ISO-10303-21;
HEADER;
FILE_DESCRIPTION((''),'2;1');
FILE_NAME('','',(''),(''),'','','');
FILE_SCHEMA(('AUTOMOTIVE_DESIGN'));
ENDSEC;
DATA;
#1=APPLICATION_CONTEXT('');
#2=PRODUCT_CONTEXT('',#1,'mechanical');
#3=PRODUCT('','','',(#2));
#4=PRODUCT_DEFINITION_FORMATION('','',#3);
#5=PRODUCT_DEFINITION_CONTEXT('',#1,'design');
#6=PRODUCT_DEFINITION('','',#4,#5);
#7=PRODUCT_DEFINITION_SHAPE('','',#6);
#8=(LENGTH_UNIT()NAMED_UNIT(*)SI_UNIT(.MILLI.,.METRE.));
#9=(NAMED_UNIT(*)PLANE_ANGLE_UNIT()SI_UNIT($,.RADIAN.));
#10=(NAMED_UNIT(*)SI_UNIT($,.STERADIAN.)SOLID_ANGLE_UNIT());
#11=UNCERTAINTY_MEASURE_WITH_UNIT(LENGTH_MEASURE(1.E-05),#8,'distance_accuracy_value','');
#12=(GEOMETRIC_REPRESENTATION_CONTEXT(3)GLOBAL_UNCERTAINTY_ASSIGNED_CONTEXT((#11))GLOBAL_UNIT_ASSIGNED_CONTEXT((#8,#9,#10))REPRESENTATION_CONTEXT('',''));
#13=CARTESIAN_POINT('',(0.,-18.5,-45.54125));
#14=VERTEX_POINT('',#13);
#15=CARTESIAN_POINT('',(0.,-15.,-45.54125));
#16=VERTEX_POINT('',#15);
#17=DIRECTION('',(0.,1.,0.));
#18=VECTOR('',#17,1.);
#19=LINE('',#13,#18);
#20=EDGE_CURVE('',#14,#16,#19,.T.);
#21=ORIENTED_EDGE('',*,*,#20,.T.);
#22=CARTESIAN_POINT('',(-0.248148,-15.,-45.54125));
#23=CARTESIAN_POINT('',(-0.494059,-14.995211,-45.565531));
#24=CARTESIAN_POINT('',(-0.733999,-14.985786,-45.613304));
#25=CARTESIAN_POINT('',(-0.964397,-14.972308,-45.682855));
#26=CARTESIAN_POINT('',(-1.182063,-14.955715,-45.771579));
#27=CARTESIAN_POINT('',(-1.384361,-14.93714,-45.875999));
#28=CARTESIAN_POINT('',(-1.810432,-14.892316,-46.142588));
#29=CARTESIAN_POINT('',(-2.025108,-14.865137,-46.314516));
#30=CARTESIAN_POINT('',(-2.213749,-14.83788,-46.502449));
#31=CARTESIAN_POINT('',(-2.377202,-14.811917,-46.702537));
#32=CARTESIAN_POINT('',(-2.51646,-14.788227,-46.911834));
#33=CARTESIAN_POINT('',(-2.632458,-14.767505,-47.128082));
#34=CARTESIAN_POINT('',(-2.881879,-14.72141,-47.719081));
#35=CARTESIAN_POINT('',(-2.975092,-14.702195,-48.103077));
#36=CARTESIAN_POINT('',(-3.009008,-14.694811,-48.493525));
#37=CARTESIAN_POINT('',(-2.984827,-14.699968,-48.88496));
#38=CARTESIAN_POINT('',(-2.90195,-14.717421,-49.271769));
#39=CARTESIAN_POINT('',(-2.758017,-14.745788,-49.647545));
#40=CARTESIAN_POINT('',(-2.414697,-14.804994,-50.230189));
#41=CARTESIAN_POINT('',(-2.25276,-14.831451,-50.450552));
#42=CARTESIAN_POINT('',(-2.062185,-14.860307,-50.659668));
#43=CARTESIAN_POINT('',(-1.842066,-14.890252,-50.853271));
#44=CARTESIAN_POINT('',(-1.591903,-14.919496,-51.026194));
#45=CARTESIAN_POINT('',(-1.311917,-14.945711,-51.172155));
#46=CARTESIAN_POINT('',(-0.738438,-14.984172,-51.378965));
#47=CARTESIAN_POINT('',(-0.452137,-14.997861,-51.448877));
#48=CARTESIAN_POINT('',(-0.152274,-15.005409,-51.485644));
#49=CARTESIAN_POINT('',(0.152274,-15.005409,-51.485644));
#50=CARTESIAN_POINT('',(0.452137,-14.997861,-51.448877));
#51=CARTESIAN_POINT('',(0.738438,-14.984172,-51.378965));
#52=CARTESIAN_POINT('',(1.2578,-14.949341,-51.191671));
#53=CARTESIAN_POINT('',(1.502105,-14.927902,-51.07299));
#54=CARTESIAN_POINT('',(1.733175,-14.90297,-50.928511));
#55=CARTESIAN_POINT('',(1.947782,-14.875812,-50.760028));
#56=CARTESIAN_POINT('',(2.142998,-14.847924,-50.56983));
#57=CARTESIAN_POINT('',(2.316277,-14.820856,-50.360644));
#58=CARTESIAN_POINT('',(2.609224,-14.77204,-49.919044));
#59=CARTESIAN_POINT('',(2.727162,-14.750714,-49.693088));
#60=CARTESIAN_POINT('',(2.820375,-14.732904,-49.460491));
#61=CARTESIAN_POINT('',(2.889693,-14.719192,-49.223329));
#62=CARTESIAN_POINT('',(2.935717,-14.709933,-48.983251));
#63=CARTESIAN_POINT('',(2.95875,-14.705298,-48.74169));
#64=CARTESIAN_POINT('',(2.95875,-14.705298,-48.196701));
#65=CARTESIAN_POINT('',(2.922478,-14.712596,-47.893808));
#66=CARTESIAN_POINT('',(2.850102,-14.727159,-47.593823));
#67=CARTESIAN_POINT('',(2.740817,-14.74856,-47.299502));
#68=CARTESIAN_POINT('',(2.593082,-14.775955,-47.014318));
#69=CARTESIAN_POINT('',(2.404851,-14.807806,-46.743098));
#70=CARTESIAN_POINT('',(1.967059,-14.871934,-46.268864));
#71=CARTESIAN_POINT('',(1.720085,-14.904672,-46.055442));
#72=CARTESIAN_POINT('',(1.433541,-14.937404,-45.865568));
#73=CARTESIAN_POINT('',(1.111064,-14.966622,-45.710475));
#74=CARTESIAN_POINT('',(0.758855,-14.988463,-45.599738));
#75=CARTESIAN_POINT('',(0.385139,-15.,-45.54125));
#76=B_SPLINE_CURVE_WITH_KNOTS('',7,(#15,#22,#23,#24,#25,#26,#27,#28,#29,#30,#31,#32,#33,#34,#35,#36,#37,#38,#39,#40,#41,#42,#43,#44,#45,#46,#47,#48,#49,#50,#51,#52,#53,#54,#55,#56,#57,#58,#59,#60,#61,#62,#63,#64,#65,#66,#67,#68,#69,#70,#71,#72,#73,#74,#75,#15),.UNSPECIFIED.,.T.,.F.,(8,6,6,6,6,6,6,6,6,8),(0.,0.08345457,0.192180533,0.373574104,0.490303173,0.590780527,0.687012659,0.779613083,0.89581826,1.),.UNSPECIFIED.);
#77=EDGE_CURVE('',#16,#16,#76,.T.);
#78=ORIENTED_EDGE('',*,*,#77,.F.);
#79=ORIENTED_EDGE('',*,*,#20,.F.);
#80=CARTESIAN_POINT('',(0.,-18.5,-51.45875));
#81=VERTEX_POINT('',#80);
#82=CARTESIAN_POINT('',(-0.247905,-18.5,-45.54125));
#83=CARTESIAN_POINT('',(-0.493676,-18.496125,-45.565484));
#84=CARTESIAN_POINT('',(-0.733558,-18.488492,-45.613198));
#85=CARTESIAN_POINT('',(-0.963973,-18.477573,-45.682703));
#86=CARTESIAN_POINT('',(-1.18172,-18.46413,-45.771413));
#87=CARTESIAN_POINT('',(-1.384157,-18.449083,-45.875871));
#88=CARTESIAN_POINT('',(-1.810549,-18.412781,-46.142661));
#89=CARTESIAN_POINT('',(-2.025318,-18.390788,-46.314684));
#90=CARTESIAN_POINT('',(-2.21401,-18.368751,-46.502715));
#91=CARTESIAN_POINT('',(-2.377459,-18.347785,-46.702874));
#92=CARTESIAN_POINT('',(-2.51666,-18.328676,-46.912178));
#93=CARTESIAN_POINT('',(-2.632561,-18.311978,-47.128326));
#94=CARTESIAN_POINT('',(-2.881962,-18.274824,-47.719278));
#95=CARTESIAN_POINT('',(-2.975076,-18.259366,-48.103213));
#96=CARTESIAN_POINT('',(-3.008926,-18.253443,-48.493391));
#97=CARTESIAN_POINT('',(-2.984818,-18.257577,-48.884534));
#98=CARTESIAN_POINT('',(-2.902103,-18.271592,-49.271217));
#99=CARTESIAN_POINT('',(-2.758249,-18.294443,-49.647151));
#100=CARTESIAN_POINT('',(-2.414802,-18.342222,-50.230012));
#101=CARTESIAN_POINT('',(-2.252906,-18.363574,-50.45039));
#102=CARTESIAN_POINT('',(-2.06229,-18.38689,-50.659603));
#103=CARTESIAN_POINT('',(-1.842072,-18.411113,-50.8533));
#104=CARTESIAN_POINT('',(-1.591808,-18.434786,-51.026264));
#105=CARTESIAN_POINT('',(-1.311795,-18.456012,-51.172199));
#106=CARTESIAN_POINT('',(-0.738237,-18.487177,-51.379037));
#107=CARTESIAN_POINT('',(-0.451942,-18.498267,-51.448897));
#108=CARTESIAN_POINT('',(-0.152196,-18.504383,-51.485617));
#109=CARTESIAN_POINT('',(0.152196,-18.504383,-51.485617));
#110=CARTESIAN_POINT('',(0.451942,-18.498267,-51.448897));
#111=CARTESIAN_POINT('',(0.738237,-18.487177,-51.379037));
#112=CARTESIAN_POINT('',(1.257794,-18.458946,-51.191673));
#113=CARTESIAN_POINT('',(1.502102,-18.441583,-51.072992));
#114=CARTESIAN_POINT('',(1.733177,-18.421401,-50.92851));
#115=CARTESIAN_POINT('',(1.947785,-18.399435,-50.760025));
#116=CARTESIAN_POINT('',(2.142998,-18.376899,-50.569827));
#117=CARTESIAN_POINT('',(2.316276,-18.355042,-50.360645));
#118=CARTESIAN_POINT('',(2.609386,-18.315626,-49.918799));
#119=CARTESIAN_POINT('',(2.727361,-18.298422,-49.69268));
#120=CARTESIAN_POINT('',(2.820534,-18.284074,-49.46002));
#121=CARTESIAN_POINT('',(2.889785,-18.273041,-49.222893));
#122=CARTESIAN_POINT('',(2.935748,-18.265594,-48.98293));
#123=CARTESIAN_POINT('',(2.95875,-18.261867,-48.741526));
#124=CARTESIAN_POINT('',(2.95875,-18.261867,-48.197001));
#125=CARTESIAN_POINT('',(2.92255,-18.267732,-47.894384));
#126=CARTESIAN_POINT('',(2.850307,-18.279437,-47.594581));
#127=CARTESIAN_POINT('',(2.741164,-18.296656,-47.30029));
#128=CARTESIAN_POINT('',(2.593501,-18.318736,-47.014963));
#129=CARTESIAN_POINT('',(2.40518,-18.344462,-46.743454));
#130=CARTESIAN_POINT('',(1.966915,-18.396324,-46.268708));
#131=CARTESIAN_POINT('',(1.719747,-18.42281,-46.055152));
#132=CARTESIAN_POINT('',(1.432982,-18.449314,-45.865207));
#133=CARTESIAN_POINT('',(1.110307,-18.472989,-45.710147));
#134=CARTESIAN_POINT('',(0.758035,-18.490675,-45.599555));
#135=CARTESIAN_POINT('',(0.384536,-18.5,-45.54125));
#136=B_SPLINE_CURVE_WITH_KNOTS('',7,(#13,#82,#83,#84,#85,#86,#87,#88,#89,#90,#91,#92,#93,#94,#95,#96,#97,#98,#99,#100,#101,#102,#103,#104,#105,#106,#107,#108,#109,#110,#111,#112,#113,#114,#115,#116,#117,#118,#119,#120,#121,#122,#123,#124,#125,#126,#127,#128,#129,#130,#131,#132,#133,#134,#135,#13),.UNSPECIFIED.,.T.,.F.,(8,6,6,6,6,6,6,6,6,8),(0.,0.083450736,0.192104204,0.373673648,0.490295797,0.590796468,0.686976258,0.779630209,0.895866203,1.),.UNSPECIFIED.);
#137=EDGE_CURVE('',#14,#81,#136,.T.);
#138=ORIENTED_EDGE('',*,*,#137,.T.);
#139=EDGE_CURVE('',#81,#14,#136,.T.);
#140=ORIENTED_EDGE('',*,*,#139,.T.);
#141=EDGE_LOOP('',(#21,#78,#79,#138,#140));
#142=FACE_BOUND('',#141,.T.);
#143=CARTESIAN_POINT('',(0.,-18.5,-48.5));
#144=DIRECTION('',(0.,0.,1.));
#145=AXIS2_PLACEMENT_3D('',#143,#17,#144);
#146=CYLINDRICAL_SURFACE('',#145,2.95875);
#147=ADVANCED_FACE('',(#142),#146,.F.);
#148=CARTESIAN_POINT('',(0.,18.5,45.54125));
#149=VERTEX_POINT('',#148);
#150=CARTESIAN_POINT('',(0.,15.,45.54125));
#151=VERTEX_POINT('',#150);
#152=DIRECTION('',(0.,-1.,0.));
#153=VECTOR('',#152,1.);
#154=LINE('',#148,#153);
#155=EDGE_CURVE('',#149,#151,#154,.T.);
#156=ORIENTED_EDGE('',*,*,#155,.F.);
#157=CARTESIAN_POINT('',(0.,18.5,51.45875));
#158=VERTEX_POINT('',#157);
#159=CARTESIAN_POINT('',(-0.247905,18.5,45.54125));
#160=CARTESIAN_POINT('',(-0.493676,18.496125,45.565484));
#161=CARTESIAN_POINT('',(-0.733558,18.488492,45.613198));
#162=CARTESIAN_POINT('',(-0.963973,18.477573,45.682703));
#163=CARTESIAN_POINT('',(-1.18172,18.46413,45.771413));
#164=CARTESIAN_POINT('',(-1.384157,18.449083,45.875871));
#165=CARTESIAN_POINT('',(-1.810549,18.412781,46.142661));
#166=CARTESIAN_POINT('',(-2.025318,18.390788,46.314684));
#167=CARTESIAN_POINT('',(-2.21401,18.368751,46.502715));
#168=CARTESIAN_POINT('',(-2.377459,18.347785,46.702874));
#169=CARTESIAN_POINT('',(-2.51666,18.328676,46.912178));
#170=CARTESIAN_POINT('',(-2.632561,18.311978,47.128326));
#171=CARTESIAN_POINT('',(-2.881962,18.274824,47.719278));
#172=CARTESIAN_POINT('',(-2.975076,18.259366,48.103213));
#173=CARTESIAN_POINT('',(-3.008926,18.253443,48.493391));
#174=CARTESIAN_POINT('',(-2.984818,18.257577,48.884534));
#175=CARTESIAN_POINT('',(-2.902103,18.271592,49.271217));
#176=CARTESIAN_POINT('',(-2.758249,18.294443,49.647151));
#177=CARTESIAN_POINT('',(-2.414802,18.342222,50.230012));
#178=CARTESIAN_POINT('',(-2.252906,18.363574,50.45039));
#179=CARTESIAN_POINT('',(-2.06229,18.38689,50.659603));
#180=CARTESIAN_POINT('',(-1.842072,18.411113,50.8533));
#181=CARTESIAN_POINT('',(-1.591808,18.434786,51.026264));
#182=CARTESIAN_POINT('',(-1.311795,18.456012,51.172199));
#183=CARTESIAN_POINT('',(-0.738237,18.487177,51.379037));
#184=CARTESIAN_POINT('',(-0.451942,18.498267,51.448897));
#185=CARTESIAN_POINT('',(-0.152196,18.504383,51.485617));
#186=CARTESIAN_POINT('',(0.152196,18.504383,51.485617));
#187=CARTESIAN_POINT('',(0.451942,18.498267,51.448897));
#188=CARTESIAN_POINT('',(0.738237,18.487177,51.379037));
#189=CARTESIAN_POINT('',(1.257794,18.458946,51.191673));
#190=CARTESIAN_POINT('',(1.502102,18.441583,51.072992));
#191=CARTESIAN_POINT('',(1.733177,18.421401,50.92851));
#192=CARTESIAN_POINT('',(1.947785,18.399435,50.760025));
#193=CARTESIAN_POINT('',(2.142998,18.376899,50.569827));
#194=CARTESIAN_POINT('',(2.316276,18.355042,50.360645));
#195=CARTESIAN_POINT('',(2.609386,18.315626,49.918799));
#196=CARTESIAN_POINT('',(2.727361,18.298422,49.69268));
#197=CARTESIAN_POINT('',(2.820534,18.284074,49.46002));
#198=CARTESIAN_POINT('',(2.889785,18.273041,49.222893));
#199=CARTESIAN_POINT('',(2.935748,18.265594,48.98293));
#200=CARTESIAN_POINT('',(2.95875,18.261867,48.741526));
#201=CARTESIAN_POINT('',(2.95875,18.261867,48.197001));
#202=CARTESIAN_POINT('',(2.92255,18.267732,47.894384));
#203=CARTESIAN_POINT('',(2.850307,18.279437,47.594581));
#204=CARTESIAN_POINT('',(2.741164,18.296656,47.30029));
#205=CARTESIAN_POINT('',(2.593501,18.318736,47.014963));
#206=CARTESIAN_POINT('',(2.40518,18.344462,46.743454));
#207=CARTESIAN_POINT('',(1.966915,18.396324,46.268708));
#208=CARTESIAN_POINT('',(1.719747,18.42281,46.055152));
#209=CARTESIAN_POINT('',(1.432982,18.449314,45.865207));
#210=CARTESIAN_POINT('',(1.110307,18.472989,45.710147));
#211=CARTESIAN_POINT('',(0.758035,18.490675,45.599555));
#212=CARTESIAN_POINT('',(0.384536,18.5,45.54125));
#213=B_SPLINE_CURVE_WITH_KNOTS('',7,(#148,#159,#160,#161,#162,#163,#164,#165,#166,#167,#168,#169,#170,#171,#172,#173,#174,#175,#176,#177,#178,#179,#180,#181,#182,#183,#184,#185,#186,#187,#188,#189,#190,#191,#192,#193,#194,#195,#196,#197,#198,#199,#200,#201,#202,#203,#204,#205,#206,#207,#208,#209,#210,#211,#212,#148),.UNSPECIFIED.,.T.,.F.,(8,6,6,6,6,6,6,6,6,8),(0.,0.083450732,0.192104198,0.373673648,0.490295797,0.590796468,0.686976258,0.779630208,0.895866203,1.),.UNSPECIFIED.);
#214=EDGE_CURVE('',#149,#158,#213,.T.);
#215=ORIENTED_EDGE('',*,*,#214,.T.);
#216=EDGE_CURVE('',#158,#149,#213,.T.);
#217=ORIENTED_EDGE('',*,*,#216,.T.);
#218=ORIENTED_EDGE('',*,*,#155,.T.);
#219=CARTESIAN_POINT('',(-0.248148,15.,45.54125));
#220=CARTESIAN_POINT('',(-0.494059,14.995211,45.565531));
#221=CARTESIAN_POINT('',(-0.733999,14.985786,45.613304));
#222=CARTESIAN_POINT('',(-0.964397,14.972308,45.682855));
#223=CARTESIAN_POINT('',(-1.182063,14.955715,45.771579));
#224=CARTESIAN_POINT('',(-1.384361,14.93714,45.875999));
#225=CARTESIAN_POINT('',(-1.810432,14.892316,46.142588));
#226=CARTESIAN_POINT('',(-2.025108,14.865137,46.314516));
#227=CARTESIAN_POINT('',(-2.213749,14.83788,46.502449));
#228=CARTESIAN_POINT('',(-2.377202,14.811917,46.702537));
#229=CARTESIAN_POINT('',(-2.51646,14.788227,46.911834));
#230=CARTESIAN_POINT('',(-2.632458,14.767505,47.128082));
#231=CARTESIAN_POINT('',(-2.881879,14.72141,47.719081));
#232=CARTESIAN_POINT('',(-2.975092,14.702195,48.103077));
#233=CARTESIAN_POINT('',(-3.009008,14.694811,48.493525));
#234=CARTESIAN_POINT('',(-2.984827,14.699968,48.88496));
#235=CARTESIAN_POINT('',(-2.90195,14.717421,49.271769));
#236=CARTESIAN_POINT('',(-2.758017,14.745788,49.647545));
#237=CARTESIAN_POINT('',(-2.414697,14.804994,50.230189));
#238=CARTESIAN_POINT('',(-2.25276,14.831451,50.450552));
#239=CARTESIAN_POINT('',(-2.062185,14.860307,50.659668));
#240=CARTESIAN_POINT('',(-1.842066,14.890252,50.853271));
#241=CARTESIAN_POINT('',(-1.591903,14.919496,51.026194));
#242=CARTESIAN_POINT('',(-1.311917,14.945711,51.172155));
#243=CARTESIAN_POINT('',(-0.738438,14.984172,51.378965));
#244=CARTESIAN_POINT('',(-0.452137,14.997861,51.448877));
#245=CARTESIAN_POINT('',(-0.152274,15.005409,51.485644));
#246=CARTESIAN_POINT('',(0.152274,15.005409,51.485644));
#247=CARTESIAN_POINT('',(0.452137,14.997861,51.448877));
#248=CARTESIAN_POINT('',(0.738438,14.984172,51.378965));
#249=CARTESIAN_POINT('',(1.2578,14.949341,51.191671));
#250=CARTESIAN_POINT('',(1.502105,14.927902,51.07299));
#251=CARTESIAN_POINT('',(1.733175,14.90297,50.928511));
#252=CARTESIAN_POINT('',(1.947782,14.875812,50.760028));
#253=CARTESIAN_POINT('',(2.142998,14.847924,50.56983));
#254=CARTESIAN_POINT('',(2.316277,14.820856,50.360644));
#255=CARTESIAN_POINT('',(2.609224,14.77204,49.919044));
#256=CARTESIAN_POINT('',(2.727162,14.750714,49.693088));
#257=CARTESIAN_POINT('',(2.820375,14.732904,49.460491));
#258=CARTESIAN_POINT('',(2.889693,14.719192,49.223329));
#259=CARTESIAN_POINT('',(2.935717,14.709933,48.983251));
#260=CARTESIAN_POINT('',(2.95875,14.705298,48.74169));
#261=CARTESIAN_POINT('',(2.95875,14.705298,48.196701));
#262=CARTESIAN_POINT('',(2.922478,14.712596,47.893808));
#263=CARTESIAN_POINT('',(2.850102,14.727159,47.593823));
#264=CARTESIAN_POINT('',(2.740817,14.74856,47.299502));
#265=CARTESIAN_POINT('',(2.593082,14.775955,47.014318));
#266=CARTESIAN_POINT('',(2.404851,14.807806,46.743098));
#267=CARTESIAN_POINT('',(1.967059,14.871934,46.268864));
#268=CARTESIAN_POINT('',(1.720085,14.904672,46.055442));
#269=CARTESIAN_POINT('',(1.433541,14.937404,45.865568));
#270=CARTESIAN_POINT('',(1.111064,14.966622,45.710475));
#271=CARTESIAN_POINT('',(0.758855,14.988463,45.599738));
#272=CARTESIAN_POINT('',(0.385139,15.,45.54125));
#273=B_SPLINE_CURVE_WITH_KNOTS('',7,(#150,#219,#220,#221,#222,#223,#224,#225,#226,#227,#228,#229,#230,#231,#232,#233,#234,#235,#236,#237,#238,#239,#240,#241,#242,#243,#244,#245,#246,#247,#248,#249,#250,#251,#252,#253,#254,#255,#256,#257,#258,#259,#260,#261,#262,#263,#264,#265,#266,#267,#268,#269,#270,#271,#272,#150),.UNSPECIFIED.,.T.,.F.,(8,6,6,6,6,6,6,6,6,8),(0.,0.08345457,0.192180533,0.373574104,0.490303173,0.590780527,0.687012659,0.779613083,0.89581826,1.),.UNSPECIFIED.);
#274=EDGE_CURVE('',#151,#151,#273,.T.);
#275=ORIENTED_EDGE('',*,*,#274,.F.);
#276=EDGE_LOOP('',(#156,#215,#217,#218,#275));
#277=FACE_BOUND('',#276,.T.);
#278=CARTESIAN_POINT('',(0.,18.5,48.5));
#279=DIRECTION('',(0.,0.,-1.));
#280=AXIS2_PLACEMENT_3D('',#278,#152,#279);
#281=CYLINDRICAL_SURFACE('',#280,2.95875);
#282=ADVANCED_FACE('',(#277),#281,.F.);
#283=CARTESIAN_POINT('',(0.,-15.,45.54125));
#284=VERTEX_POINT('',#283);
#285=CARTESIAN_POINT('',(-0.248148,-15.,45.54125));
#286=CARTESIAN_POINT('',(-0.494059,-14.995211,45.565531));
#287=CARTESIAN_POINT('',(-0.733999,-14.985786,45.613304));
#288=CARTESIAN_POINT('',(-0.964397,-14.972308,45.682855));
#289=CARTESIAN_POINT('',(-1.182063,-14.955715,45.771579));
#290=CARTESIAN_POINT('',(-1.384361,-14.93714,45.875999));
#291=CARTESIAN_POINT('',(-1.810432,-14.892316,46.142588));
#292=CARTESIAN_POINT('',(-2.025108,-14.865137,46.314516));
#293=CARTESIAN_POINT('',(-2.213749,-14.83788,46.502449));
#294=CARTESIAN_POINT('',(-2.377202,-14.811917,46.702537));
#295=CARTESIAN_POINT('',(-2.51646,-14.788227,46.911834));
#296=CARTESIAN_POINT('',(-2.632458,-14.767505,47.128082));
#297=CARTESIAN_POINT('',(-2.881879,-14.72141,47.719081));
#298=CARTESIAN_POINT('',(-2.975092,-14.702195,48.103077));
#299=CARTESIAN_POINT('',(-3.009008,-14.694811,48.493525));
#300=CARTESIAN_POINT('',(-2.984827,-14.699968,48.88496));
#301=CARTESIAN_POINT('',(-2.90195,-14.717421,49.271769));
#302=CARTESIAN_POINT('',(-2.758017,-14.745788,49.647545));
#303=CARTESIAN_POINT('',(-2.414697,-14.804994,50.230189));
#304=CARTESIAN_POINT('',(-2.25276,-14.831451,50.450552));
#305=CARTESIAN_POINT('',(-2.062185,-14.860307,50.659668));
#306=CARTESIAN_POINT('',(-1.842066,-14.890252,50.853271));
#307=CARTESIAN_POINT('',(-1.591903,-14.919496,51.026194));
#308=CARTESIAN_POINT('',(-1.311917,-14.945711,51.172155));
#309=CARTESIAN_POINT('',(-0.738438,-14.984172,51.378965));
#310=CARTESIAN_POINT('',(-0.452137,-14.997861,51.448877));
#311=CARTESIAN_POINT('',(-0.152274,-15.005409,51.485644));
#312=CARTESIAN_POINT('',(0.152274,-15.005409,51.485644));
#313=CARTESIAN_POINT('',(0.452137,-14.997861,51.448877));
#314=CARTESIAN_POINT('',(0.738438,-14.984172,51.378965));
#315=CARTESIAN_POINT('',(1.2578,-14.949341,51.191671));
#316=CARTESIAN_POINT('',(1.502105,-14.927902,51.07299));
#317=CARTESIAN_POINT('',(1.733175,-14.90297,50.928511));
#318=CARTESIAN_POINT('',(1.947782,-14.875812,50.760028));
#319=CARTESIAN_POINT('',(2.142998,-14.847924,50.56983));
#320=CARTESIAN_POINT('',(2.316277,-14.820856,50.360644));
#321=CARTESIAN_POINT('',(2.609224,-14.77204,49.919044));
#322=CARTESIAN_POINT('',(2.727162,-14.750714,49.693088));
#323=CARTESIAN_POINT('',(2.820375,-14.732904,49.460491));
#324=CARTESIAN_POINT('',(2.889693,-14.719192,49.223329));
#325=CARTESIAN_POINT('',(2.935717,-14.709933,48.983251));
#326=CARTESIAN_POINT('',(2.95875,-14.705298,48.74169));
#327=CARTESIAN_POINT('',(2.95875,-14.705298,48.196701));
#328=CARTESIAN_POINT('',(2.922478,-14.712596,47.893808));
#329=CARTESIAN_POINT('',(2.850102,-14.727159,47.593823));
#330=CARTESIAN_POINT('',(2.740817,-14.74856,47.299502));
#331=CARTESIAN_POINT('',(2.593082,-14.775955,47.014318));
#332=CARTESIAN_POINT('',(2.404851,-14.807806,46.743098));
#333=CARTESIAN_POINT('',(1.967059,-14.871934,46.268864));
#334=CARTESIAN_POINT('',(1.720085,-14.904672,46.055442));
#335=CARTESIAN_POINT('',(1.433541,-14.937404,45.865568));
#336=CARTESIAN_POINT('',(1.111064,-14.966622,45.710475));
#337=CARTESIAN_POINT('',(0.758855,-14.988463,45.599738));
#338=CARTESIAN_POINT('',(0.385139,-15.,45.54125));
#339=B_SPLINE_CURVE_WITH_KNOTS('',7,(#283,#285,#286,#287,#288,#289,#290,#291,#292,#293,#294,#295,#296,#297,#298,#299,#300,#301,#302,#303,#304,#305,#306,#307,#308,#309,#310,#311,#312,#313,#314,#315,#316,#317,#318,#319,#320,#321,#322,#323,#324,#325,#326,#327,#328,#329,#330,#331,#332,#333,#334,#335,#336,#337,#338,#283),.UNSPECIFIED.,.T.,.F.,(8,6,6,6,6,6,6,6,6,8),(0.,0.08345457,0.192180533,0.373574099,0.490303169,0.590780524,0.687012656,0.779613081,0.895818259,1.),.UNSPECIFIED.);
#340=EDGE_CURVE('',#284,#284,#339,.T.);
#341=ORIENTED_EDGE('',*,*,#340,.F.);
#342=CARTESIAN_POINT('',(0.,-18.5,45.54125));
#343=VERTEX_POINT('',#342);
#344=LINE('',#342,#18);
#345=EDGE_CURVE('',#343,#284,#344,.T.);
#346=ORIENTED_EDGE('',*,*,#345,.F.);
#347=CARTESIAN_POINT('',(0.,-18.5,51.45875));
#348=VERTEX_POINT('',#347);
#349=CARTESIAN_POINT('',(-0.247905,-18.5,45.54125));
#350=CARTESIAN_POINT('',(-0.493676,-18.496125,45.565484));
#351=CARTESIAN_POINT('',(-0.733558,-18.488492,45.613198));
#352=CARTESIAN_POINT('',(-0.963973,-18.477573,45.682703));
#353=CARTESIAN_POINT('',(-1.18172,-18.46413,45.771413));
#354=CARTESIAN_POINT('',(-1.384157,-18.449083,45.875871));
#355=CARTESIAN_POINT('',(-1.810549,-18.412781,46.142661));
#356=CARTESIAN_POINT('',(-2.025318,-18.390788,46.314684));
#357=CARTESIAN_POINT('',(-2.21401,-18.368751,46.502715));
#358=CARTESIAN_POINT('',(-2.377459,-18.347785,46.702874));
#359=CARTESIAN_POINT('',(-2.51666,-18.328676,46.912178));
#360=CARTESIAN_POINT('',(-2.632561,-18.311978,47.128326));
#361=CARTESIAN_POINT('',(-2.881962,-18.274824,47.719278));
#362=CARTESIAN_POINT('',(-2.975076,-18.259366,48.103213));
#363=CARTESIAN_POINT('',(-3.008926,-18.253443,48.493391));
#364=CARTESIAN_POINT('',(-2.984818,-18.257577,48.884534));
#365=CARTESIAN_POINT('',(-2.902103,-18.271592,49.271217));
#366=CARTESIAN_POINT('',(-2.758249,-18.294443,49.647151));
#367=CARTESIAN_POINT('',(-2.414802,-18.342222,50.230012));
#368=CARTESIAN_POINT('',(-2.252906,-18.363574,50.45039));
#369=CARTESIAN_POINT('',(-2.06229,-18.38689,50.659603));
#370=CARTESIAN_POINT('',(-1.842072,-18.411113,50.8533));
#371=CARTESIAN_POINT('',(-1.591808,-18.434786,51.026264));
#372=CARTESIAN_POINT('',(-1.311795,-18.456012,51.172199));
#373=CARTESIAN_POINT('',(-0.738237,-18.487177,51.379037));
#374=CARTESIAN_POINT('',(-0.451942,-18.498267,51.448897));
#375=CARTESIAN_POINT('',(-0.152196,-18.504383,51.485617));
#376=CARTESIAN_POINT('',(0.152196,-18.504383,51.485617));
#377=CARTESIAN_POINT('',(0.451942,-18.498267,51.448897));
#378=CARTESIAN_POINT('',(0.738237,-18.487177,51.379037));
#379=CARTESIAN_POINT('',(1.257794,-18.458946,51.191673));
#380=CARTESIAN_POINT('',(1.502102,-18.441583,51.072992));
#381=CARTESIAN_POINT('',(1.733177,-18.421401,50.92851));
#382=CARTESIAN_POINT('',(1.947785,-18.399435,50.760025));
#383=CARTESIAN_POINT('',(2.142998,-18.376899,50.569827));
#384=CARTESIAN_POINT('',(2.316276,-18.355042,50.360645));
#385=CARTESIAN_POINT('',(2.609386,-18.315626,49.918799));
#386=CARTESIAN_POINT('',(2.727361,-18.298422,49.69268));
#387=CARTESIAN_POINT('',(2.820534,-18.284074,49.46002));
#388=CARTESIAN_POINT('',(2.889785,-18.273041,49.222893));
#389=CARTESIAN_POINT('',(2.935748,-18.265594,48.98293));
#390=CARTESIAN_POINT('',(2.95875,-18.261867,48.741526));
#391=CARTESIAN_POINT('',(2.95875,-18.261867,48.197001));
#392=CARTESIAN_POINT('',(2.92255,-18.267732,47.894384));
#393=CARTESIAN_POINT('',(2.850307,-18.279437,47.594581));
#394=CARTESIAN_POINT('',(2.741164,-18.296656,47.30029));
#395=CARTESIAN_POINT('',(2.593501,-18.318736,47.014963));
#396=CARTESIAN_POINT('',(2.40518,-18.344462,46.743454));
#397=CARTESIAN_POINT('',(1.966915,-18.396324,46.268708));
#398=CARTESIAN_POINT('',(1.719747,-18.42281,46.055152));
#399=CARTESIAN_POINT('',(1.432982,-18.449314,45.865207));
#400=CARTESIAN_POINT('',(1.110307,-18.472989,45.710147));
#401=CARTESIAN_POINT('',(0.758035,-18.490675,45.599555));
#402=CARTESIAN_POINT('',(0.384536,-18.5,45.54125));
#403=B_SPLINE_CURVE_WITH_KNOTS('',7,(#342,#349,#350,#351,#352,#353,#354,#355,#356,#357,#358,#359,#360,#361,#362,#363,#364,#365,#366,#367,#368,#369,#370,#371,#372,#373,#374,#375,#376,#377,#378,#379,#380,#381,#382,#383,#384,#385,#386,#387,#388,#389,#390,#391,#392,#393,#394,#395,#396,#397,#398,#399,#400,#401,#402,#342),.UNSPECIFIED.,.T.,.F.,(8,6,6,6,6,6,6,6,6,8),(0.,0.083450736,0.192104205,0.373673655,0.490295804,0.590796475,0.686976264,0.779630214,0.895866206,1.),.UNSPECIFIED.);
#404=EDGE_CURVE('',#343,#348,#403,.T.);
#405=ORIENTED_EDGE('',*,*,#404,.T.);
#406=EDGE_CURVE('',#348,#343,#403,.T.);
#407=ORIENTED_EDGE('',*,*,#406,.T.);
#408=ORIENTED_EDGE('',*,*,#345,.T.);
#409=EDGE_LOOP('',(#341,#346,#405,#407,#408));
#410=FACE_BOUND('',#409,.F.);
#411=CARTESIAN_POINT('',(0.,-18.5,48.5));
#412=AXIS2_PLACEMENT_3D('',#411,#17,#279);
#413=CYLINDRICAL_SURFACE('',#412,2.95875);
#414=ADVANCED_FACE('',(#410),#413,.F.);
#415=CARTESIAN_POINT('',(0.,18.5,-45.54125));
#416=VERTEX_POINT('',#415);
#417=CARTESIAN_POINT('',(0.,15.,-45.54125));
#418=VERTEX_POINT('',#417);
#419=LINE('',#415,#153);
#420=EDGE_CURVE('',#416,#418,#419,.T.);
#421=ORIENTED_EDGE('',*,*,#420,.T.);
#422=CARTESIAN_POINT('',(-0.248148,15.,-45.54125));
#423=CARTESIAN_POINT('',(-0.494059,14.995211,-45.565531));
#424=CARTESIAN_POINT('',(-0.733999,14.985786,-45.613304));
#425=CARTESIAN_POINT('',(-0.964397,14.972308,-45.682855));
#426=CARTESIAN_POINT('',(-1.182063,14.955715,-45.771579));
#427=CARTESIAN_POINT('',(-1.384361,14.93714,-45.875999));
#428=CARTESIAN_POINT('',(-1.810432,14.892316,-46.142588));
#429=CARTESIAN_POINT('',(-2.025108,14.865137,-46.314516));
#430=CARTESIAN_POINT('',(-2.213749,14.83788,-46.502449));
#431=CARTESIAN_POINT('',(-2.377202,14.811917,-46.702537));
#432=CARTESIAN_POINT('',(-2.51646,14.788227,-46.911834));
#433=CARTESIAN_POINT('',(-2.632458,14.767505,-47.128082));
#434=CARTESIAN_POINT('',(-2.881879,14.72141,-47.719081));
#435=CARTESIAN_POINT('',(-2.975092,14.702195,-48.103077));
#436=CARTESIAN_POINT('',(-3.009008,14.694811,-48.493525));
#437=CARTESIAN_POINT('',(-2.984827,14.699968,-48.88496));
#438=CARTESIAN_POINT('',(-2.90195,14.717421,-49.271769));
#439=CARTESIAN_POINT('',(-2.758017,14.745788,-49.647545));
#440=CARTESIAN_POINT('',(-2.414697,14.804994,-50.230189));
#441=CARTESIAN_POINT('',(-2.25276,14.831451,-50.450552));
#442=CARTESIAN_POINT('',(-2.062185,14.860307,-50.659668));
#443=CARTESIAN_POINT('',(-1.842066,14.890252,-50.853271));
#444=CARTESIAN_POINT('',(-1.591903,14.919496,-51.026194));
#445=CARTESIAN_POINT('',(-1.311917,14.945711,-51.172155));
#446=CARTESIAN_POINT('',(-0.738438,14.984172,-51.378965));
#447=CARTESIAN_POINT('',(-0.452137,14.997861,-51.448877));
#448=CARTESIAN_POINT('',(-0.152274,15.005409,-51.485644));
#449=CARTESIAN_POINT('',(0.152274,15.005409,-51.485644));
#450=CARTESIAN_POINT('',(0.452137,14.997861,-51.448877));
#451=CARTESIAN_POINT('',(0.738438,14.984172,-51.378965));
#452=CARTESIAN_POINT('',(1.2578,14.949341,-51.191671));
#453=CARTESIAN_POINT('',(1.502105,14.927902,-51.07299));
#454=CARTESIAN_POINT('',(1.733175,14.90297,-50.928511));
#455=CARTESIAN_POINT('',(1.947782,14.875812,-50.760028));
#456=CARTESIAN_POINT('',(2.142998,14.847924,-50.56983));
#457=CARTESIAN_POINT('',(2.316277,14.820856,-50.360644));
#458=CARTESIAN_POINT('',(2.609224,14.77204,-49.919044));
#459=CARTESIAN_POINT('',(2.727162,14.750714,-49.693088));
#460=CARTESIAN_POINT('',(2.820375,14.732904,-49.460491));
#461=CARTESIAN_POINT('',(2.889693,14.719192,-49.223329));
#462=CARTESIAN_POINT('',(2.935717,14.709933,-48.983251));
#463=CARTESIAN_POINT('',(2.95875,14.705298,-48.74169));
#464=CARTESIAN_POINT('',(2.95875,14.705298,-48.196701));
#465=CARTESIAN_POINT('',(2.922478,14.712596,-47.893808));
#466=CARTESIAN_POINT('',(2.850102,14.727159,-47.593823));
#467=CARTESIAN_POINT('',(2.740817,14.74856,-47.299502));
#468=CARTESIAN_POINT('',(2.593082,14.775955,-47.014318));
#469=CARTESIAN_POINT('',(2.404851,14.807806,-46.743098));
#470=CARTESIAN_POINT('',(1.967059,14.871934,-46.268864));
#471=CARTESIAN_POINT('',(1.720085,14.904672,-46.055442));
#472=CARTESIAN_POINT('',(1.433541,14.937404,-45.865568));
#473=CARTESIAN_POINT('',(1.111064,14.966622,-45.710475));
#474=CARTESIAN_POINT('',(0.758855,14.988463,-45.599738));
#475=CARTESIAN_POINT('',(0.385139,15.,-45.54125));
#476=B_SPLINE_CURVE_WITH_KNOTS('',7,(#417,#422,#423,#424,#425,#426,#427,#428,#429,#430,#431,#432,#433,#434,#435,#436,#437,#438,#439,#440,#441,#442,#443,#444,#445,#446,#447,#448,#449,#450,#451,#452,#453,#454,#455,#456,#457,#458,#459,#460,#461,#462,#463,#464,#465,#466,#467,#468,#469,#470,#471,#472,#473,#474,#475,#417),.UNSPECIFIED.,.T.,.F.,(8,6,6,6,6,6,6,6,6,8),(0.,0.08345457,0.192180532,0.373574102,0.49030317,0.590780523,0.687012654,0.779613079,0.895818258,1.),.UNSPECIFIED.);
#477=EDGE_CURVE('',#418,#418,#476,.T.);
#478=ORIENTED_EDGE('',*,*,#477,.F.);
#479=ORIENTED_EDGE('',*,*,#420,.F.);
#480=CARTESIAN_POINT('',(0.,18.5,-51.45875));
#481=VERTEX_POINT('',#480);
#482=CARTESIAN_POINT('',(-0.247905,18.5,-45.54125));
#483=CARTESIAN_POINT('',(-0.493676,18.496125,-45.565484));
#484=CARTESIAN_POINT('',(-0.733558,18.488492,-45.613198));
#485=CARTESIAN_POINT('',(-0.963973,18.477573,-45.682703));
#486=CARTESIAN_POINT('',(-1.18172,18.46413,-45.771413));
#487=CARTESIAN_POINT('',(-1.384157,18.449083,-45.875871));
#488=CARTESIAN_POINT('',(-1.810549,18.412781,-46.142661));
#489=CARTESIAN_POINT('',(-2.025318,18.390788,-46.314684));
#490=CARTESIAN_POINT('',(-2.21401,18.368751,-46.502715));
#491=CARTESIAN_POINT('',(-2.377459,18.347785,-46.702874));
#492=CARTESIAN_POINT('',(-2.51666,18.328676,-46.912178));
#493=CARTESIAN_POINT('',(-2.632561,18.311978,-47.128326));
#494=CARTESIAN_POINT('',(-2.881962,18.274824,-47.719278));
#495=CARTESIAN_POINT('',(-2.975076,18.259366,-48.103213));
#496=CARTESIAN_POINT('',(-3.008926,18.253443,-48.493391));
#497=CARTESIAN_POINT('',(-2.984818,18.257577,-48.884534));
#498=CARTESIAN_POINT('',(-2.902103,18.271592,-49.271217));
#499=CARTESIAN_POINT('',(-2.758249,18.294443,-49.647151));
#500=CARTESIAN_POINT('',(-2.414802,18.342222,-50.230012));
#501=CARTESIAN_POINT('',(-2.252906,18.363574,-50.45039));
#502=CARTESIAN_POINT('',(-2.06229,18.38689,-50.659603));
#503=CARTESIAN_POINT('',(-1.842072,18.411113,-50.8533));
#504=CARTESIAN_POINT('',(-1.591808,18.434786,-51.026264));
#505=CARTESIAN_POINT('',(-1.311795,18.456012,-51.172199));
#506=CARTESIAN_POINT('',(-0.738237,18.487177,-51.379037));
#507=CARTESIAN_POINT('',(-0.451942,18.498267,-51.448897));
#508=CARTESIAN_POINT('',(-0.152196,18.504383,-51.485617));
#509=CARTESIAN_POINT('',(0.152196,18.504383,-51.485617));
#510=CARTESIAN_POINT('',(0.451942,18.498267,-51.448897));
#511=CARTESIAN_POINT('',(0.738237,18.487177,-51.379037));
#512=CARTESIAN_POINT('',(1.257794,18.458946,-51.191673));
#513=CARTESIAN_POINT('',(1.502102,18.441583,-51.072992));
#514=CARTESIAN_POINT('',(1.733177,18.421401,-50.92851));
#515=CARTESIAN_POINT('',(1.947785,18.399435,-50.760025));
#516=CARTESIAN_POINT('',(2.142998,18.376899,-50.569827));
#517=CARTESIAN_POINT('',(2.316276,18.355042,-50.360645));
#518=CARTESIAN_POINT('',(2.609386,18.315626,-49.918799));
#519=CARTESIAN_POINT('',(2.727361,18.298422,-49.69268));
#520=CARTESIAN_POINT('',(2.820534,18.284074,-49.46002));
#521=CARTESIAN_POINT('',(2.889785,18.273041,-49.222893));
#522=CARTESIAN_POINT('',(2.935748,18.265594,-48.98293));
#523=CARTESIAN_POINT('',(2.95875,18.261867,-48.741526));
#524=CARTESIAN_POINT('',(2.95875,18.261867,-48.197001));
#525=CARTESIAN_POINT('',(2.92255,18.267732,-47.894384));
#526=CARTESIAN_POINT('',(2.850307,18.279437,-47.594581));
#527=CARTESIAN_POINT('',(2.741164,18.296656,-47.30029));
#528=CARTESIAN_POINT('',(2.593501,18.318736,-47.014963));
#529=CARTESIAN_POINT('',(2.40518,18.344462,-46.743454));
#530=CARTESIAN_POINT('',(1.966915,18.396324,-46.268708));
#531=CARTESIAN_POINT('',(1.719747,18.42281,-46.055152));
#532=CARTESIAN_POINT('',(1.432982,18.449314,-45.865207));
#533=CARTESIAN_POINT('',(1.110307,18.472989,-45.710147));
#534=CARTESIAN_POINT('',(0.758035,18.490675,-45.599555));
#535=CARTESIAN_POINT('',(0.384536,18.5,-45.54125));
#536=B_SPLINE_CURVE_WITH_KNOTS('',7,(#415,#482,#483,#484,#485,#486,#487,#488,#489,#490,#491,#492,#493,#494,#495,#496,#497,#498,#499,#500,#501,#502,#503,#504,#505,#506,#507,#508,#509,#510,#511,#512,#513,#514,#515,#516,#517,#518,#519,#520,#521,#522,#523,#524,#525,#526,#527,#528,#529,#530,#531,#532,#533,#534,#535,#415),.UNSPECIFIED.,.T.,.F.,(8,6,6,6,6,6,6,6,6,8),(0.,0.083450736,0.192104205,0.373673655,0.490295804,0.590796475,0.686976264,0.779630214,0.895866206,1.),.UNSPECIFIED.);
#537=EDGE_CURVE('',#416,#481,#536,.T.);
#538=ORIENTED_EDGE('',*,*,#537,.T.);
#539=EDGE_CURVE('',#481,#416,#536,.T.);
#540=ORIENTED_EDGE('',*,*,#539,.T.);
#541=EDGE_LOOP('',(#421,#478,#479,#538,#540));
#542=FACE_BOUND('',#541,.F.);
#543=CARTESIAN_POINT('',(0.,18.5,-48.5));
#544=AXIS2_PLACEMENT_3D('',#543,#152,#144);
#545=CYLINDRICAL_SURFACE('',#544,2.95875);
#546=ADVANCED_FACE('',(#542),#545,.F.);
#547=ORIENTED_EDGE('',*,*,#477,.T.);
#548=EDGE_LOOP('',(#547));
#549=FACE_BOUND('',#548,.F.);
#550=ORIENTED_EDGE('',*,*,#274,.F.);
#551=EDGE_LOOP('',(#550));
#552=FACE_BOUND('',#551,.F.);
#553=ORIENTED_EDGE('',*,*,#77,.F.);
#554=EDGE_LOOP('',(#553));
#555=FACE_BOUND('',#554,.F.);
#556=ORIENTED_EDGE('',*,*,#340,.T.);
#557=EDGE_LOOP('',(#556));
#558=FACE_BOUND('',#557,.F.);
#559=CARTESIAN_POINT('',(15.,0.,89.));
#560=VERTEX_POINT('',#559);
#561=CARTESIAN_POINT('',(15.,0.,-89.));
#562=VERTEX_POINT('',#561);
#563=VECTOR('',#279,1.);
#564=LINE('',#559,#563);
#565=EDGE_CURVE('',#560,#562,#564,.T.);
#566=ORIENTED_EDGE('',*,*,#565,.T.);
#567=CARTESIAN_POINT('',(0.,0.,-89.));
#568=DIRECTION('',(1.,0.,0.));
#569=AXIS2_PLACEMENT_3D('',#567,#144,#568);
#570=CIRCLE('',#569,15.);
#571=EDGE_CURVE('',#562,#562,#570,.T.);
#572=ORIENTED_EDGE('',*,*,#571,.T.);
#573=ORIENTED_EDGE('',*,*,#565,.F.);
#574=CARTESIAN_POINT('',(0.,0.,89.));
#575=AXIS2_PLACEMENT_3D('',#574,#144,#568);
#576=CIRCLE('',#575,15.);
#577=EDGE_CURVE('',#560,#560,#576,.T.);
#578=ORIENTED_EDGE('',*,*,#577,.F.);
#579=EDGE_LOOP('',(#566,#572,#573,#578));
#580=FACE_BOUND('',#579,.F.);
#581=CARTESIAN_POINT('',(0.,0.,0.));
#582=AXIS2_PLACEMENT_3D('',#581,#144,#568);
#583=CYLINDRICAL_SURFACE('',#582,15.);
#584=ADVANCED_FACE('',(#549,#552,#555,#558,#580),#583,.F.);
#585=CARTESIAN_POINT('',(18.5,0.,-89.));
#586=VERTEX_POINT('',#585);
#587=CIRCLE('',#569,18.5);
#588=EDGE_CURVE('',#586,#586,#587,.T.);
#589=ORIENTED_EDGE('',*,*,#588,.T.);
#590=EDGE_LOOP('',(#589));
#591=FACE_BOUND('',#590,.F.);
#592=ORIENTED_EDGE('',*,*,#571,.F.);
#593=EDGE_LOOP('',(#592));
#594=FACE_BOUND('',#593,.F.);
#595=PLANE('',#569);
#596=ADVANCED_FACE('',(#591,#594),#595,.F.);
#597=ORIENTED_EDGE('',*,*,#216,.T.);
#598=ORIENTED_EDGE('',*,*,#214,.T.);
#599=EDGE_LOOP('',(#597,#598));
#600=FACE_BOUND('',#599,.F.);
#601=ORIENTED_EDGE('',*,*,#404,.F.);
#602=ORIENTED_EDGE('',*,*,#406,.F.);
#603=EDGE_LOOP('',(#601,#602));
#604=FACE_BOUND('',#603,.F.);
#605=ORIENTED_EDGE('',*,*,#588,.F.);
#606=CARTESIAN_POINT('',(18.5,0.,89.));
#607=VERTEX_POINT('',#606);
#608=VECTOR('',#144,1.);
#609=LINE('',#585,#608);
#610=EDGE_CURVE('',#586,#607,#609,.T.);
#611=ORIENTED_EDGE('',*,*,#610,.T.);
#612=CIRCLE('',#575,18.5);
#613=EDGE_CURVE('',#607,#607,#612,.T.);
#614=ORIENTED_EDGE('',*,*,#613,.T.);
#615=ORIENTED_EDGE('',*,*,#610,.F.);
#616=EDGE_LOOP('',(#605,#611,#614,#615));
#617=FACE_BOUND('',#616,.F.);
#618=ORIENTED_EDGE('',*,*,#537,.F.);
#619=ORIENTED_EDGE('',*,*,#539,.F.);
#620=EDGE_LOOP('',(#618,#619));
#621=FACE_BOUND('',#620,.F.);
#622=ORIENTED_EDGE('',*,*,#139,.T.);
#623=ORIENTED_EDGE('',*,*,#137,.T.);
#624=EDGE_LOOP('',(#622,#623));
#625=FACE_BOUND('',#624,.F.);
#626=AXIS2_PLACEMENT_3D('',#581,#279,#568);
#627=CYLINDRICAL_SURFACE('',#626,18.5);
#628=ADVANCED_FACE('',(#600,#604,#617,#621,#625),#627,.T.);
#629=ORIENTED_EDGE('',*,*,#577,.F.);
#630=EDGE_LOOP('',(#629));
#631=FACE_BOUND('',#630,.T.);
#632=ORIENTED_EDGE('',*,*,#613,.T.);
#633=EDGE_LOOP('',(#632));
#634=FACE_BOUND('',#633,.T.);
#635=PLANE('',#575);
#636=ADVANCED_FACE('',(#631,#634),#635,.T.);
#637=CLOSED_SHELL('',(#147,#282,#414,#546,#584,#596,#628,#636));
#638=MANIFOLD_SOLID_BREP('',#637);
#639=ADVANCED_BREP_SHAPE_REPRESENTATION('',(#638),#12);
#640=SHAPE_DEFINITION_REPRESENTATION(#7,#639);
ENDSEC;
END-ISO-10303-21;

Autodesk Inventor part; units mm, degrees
ref_plane "YZ Plane" through (0, 0, 0) normal (1, 0, 0) x (0, 1, 0)
ref_plane "XZ Plane" through (0, 0, 0) normal (0, 1, 0) x (-1, 0, 0)
sketch "Sketch1" plane through (0, 0, 0) normal (0, 0, 1) x (1, 0, 0)
  circle A0 centre (0, 0) radius 18.5
  circle A1 centre (0, 0) radius 15
  dimension "d0" = 37
  dimension "d1" = 30
extrude "Extrusion1" add sketch "Sketch1" along normal mid plane 178
ref_plane "Work Plane4" through (0, 18.5, 0) normal (0, 1, 0) x (-1, 0, 0)
sketch "Sketch4" plane through (0, 18.5, 0) normal (0, 1, 0) x (-1, 0, 0)
  line L0 (-18.5, -89) -> (18.5, -89) projected
  line L1 (18.5, -89) -> (18.5, 89) projected
  line L2 (-18.5, -89) -> (18.5, -89) projected
  line L3 (18.5, 89) -> (-18.5, 89) projected
  point P0 (0, 0)
  point P1 (0, -48.5)
  dimension "d14" = 40.5
  dimension "d22" = 178
  dimension "d23" = 18.5
hole "Hole1" at (0, 18.5, -48.5) direction (0, -1, 0) diameter 5.9175 depth 19.1 tip angle 118 thread size "M7x1" class "6H" standard "ISO Metric profile"
mirror "Mirror1" about plane through (0, 0, 0) normal (0, 0, 1) of "Hole1"
mirror "Mirror2" about plane through (0, 0, 0) normal (0, 1, 0) of "Hole1", "Mirror1"
properties part number "EjeRodilla"
